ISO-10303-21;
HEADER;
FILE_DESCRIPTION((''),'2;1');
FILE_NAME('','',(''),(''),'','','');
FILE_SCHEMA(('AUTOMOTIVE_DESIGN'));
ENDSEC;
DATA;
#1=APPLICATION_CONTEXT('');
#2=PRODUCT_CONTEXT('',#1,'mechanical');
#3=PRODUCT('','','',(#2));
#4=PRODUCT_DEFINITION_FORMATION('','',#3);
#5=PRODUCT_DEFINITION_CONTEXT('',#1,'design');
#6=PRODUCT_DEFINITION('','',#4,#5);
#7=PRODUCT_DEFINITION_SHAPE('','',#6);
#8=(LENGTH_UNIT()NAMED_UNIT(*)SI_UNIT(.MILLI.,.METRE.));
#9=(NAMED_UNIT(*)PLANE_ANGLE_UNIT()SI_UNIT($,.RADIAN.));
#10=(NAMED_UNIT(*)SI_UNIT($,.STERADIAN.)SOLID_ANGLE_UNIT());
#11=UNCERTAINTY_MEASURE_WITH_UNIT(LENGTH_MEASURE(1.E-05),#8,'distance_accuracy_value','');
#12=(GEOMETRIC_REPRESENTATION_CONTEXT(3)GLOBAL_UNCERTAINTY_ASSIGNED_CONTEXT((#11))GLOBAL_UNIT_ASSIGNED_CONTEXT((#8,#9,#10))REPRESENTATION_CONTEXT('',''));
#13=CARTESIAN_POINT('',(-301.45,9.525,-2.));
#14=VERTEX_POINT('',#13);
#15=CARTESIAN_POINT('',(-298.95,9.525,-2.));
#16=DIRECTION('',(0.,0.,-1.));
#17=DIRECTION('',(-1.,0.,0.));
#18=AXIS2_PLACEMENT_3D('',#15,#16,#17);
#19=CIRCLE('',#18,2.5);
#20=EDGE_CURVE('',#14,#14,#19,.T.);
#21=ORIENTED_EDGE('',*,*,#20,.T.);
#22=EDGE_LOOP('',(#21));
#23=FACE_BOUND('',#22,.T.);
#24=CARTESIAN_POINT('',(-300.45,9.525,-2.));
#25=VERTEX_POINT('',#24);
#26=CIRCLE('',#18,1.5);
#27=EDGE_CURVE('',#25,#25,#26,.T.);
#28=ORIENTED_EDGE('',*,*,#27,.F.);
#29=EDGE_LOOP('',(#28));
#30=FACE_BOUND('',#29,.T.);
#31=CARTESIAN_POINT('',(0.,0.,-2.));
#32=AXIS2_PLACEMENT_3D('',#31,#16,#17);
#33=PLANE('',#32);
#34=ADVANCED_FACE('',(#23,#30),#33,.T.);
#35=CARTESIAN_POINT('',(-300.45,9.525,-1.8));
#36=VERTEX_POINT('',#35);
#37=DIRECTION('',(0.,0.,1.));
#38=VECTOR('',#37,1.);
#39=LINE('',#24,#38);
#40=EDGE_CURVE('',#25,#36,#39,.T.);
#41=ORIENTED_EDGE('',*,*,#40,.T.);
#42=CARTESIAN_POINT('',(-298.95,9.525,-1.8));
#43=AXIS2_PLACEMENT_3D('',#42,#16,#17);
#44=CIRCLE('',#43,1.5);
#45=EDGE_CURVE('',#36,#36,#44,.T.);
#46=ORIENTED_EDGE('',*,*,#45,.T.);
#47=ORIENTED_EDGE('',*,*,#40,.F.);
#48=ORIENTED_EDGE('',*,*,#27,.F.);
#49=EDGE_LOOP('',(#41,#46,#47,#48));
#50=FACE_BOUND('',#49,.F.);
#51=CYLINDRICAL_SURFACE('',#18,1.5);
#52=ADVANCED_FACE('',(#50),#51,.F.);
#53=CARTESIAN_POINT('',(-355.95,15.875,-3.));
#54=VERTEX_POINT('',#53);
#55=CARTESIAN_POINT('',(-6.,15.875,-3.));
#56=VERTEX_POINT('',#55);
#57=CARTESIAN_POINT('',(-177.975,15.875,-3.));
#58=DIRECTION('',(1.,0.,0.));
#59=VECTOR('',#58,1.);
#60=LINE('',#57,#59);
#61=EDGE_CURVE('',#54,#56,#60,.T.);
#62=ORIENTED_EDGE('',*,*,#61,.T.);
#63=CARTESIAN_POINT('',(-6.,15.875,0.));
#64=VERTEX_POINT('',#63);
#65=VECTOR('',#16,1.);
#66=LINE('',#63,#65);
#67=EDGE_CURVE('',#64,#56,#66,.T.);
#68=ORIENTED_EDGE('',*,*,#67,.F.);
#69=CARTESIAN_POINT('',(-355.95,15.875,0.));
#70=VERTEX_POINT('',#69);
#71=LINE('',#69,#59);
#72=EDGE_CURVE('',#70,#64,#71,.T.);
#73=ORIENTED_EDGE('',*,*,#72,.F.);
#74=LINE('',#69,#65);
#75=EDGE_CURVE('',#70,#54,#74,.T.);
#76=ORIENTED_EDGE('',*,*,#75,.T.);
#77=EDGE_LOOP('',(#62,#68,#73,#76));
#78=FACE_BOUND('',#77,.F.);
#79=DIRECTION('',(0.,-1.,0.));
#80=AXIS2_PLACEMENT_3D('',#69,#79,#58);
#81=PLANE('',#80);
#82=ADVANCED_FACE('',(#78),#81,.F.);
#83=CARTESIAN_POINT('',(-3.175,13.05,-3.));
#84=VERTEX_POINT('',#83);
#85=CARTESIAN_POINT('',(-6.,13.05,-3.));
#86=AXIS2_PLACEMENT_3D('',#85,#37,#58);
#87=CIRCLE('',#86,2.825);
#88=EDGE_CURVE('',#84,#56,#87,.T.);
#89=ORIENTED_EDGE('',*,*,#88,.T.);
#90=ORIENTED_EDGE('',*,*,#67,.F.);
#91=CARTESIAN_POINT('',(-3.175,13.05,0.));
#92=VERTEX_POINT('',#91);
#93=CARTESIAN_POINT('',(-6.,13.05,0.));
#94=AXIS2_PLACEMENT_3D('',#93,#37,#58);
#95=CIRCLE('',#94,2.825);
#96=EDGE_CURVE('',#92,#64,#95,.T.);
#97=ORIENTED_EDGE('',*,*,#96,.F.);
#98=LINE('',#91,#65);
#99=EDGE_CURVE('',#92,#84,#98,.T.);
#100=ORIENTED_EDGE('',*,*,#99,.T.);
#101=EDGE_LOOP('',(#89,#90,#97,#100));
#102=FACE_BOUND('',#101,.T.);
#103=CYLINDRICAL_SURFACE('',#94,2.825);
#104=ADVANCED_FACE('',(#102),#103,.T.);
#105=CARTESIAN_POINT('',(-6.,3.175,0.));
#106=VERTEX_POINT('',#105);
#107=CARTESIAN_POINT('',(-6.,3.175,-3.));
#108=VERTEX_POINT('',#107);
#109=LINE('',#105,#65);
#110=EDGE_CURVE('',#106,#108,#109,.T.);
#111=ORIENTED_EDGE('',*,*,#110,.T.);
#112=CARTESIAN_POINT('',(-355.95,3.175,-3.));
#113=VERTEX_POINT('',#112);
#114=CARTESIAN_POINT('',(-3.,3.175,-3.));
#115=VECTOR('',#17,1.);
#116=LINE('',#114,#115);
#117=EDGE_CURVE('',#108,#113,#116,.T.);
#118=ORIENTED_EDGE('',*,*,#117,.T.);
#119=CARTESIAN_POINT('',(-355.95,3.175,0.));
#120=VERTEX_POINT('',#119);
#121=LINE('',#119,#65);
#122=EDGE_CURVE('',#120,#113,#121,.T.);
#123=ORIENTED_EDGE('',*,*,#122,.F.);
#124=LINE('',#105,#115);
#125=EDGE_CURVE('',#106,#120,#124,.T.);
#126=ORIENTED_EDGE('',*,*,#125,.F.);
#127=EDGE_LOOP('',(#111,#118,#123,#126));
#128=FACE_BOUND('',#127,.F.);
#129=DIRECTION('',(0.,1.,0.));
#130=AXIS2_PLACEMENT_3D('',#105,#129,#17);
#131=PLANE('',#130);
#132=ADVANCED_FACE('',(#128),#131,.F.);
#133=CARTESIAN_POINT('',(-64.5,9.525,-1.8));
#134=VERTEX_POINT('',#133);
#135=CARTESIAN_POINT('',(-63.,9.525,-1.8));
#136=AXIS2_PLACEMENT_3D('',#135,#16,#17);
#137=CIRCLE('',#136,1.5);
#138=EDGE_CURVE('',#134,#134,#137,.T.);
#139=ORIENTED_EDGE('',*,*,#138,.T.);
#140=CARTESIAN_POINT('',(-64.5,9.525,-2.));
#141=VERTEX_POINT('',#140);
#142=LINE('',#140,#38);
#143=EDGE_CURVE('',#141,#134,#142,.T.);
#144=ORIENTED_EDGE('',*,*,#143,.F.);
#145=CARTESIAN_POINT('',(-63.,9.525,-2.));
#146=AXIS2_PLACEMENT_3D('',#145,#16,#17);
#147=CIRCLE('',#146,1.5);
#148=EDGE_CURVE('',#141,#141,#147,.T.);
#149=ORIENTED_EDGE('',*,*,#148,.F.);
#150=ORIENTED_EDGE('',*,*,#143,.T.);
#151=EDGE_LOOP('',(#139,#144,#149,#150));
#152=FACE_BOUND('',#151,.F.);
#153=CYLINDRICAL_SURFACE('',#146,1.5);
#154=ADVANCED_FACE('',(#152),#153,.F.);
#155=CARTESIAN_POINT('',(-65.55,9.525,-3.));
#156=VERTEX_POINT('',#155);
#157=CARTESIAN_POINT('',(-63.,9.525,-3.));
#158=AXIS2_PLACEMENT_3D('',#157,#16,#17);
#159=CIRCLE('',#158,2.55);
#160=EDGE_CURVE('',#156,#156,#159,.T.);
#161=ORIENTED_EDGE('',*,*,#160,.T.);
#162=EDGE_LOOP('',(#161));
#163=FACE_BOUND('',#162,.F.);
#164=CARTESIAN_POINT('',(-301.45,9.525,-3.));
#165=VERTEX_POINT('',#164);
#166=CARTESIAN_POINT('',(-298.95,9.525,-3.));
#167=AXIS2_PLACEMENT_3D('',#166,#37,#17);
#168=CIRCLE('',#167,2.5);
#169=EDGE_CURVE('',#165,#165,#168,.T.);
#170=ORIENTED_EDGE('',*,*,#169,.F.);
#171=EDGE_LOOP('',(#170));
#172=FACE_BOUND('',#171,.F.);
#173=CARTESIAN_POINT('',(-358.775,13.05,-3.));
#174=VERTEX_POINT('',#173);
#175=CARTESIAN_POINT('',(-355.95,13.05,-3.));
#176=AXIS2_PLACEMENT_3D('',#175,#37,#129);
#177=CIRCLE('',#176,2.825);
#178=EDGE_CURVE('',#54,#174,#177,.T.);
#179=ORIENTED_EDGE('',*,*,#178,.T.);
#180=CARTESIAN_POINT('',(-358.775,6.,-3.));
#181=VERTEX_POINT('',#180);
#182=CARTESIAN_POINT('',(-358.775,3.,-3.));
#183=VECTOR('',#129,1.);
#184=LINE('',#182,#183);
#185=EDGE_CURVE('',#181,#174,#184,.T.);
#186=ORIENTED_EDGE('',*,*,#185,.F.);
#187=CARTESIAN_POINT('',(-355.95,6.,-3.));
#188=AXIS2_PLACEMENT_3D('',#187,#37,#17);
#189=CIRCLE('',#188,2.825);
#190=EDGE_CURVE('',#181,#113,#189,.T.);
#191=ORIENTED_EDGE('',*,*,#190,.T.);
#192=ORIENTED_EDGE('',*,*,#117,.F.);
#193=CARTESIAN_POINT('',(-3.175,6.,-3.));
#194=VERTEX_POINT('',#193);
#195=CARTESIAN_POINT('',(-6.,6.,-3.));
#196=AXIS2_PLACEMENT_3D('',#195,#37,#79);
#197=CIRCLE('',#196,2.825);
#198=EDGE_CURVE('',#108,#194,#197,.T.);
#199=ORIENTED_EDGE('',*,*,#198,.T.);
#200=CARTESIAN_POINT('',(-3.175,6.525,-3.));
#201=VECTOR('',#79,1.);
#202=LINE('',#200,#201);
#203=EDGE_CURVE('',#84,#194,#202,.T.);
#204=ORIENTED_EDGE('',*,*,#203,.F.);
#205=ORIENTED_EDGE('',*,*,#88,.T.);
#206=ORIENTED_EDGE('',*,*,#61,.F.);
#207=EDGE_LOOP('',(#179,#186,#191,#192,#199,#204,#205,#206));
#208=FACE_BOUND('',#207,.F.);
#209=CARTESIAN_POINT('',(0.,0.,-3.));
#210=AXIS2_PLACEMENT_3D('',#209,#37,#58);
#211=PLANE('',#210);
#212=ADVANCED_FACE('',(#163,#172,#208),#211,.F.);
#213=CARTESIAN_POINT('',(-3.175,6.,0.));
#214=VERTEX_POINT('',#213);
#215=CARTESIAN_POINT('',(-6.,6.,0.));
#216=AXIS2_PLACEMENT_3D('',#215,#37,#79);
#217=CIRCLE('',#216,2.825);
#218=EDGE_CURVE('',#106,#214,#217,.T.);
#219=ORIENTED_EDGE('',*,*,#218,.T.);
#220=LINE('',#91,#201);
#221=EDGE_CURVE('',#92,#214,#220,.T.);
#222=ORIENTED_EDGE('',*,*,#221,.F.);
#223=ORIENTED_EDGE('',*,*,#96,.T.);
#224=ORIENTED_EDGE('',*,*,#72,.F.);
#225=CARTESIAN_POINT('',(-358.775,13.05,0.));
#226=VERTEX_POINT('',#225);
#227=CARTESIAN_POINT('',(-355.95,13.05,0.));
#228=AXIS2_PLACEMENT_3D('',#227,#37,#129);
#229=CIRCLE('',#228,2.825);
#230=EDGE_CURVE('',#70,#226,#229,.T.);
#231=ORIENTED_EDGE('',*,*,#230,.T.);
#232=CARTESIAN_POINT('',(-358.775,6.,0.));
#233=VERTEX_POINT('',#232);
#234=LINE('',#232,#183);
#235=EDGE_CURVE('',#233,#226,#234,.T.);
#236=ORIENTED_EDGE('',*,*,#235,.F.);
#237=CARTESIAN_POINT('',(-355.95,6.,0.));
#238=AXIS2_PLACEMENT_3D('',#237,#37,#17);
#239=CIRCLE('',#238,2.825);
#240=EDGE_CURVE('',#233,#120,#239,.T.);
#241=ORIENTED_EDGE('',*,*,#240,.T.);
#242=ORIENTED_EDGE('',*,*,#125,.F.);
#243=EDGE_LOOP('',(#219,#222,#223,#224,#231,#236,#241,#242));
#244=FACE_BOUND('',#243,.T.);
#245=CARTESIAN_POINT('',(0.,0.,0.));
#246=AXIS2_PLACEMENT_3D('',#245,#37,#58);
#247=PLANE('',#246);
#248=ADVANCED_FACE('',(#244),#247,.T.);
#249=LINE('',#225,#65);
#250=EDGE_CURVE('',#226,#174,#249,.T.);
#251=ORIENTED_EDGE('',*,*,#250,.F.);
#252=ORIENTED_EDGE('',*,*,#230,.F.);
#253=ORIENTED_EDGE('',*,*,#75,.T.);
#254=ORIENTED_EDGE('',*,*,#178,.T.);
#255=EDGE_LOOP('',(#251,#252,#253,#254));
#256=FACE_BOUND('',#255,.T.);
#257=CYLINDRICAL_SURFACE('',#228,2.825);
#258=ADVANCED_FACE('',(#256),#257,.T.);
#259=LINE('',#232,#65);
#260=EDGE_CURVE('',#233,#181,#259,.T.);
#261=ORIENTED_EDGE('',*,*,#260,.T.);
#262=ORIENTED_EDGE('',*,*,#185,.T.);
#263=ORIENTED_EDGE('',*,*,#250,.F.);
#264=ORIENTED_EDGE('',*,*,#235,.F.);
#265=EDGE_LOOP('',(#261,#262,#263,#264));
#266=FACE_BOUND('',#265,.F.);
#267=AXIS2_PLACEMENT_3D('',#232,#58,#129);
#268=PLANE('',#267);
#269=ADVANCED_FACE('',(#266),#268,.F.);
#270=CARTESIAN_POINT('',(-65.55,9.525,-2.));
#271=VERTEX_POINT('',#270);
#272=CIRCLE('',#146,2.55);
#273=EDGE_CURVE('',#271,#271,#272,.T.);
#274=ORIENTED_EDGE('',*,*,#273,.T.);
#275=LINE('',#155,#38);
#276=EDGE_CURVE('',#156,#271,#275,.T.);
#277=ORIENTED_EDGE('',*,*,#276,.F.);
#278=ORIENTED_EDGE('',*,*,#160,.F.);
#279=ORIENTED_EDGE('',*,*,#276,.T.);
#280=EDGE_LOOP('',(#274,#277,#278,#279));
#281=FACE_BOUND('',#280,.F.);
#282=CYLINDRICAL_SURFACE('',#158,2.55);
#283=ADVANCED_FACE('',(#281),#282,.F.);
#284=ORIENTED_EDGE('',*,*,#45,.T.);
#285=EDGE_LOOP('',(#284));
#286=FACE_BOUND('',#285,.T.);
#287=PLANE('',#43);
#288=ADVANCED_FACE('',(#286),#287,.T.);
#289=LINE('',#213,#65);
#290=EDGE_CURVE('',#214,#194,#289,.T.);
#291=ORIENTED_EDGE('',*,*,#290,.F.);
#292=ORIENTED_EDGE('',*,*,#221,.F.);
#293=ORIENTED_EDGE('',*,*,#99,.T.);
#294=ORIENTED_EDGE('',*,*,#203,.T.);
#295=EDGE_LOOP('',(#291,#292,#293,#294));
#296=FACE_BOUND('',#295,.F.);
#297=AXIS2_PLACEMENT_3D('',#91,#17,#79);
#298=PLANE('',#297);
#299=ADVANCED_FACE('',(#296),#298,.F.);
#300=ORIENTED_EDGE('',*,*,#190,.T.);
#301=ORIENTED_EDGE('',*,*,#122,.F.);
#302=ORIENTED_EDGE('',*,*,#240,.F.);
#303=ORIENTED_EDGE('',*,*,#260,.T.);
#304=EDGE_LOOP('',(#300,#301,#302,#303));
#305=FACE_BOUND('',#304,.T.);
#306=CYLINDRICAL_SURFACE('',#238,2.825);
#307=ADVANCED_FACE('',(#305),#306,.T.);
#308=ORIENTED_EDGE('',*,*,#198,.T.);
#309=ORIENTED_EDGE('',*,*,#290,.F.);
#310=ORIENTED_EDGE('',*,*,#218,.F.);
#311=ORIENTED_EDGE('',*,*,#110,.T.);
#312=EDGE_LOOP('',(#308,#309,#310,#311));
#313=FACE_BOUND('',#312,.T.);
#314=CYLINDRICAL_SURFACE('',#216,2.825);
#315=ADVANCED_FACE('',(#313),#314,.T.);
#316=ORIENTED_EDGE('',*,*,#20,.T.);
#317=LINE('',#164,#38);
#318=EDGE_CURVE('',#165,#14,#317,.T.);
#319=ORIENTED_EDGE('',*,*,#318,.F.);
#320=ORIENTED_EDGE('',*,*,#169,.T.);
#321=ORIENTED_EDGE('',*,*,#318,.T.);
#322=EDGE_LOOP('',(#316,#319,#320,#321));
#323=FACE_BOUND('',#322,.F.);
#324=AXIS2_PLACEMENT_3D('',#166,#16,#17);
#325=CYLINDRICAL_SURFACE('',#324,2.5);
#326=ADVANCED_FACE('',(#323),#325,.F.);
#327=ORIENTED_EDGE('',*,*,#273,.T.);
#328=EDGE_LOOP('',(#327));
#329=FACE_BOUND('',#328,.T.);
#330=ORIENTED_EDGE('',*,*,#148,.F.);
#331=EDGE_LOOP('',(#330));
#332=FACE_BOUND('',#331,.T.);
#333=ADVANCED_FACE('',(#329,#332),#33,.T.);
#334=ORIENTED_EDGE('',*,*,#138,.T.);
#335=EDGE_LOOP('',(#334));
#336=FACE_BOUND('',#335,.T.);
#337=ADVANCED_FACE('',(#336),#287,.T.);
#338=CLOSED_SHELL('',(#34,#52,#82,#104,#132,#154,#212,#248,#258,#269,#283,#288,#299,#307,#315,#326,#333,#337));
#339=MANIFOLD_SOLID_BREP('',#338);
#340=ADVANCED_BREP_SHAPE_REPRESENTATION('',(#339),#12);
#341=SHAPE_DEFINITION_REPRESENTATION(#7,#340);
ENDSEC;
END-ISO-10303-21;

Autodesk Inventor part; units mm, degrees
ref_plane "YZ Plane" through (0, 0, 0) normal (1, 0, 0) x (0, 1, 0)
ref_plane "XZ Plane" through (0, 0, 0) normal (0, 1, 0) x (-1, 0, 0)
ref_plane "XY Plane" through (0, 0, 0) normal (0, 0, 1) x (1, 0, 0)
sketch "Sketch1" plane through (0, 0, 0) normal (0, 0, 1) x (1, 0, 0)
  line L0 (-381.35, 16.05) -> (-6, 16.05)
  line L1 (-3, 13.05) -> (-3, 6)
  line L2 (-6, 3) -> (-381.35, 3)
  line L3 (-384.35, 6) -> (-384.35, 13.05)
  arc A0 (-3, 13.05) -> (-6, 16.05) centre (-6, 13.05) ccw
  arc A1 (-6, 3) -> (-3, 6) centre (-6, 6) ccw
  arc A2 (-381.35, 16.05) -> (-384.35, 13.05) centre (-381.35, 13.05) ccw
  arc A3 (-384.35, 6) -> (-381.35, 3) centre (-381.35, 6) ccw
  line L4 (-41.8897, 11.0236) -> (-317.4797, 11.0236)
  line L5 (-317.4797, 7.9756) -> (-41.8897, 7.9756)
  line L6 (-368.2797, 11.0236) -> (-368.2797, 7.9756)
  arc A4 (-368.2797, 11.0236) -> (-368.2797, 7.9756) centre (-368.2797, 9.4996) ccw
  line L7 (-86.8832, 11.0236) -> (-99.5832, 11.0236)
  line L8 (-41.8897, 11.0236) -> (-41.8897, 7.9756)
  arc A5 (-41.8897, 7.9756) -> (-41.8897, 11.0236) centre (-41.8897, 9.4996) ccw
  line L9 (-36.3424, 11.0744) -> (-6.7422, 11.0744) construction
  line L10 (-6.7422, 11.0744) -> (-6.7422, 8.0311) construction
  line L11 (-6.7422, 8.0311) -> (-36.3424, 8.0311) construction
  line L12 (-36.3424, 8.0311) -> (-36.3424, 11.0744) construction
  line L13 (-317.4797, 11.0236) -> (-368.2797, 11.0236)
  line L14 (-317.4797, 7.9756) -> (-368.2797, 7.9756)
  line L15 (-193.675, 9.525) -> (-193.675, 10.1012)
  line L16 (-193.675, 9.525) -> (-193.6526, 8.8818)
  line L17 (-35.1521, 9.2905) -> (-35.4935, 8.9245)
  line L18 (-35.4935, 8.9245) -> (-35.4935, 7.9833)
  line L19 (-35.4935, 7.9833) -> (-36.0379, 7.9833)
  line L20 (-36.0379, 7.9833) -> (-36.0379, 11.0313)
  line L21 (-36.0379, 11.0313) -> (-35.4935, 11.0313)
  line L22 (-35.4935, 11.0313) -> (-35.4935, 9.6073)
  line L23 (-35.4935, 9.6073) -> (-35.2013, 9.9733)
  line L24 (-35.2013, 9.9733) -> (-34.3278, 11.0313)
  line L25 (-34.3278, 11.0313) -> (-33.6665, 11.0313)
  line L26 (-33.6665, 11.0313) -> (-34.7922, 9.6842)
  line L27 (-34.7922, 9.6842) -> (-33.6081, 7.9833)
  line L28 (-33.6081, 7.9833) -> (-34.254, 7.9833)
  line L29 (-34.254, 7.9833) -> (-35.1521, 9.2905)
  spline S0 degree 2 poles (-31.6581, 9.5704) (-31.4028, 9.5027) (-31.1445, 9.1244) (-31.1445, 8.8753) knots 0 0 0 1 2 2 2
  spline S1 degree 2 poles (-31.1445, 8.8753) (-31.1445, 8.4416) (-31.7012, 7.9833) (-32.2056, 7.9833) knots 0 0 0 1 2 2 2
  line L30 (-32.2056, 7.9833) -> (-33.1252, 7.9833)
  line L31 (-33.1252, 7.9833) -> (-33.3313, 7.9833)
  line L32 (-33.3313, 7.9833) -> (-33.3313, 11.0313)
  line L33 (-33.3313, 11.0313) -> (-32.2825, 11.0313)
  spline S2 degree 2 poles (-32.2825, 11.0313) (-31.7688, 11.0313) (-31.2152, 10.6223) (-31.2152, 10.2071) knots 0 0 0 1 2 2 2
  spline S3 degree 2 poles (-31.2152, 10.2071) (-31.2152, 9.9918) (-31.4428, 9.6596) (-31.6581, 9.5704) knots 0 0 0 1 2 2 2
  spline S4 degree 2 poles (-32.2056, 8.4201) (-31.9534, 8.4201) (-31.6858, 8.6692) (-31.6858, 8.8753) knots 0 0 0 1 2 2 2
  spline S5 degree 2 poles (-31.6858, 8.8753) (-31.6858, 9.352) (-32.184, 9.352) knots 0 0 0 1 1 1
  line L34 (-32.184, 9.352) -> (-32.7869, 9.352)
  line L35 (-32.7869, 9.352) -> (-32.7869, 8.4201)
  line L36 (-32.7869, 8.4201) -> (-32.2056, 8.4201)
  line L37 (-32.7869, 10.5946) -> (-32.7869, 9.7488)
  line L38 (-32.7869, 9.7488) -> (-32.2794, 9.7488)
  spline S6 degree 2 poles (-32.2794, 9.7488) (-32.0303, 9.7488) (-31.7565, 9.9733) (-31.7565, 10.1732) knots 0 0 0 1 2 2 2
  spline S7 degree 2 poles (-31.7565, 10.1732) (-31.7565, 10.3947) (-32.0118, 10.5946) (-32.2825, 10.5946) knots 0 0 0 1 2 2 2
  line L39 (-32.2825, 10.5946) -> (-32.7869, 10.5946)
  spline S8 degree 2 poles (-29.7143, 11.0313) (-29.3083, 11.0313) (-28.6839, 10.6715) (-28.3364, 10.0133) (-28.3364, 9.5796) knots 0 0 0 1 2 3 3 3
  line L40 (-28.3364, 9.5796) -> (-28.3364, 9.432)
  spline S9 degree 2 poles (-28.3364, 9.432) (-28.3364, 8.9952) (-28.6839, 8.3401) (-29.3144, 7.9833) (-29.7327, 7.9833) knots 0 0 0 1 2 3 3 3
  line L41 (-29.7327, 7.9833) -> (-30.3786, 7.9833)
  line L42 (-30.3786, 7.9833) -> (-30.6185, 7.9833)
  line L43 (-30.6185, 7.9833) -> (-30.6185, 11.0313)
  line L44 (-30.6185, 11.0313) -> (-30.0741, 11.0313)
  line L45 (-30.0741, 11.0313) -> (-29.7143, 11.0313)
  spline S10 degree 2 poles (-28.8808, 9.5858) (-28.8808, 10.0748) (-29.3083, 10.5946) (-29.7143, 10.5946) knots 0 0 0 1 2 2 2
  line L46 (-29.7143, 10.5946) -> (-30.0741, 10.5946)
  line L47 (-30.0741, 10.5946) -> (-30.0741, 8.4201)
  line L48 (-30.0741, 8.4201) -> (-29.7327, 8.4201)
  spline S11 degree 2 poles (-29.7327, 8.4201) (-29.3144, 8.4201) (-28.8808, 8.9491) (-28.8808, 9.432) knots 0 0 0 1 2 2 2
  line L49 (-28.8808, 9.432) -> (-28.8808, 9.5858)
  line L50 (-26.8293, 7.9833) -> (-26.8293, 8.3432)
  line L51 (-26.8293, 8.3432) -> (-25.8389, 9.4197)
  spline S12 degree 2 poles (-25.8389, 9.4197) (-25.6759, 9.6011) (-25.4914, 9.8626) (-25.4145, 10.0717) (-25.4145, 10.1763) knots 0 0 0 1 2 3 3 3
  spline S13 degree 2 poles (-25.4145, 10.1763) (-25.4145, 10.3916) (-25.6513, 10.6561) (-25.8604, 10.6561) knots 0 0 0 1 2 2 2
  spline S14 degree 2 poles (-25.8604, 10.6561) (-26.1065, 10.6561) (-26.3679, 10.3516) (-26.3679, 10.0994) knots 0 0 0 1 2 2 2
  line L52 (-26.3679, 10.0994) -> (-26.8908, 10.0994)
  spline S15 degree 2 poles (-26.8908, 10.0994) (-26.8908, 10.3701) (-26.6417, 10.813) (-26.1742, 11.0744) (-25.8543, 11.0744) knots 0 0 0 1 2 3 3 3
  spline S16 degree 2 poles (-25.8543, 11.0744) (-25.5498, 11.0744) (-25.1192, 10.8683) (-24.8916, 10.49) (-24.8916, 10.2317) knots 0 0 0 1 2 3 3 3
  spline S17 degree 2 poles (-24.8916, 10.2317) (-24.8916, 9.9641) (-25.2115, 9.4289) (-25.516, 9.109) knots 0 0 0 1 2 2 2
  line L53 (-25.516, 9.109) -> (-26.1772, 8.4016)
  line L54 (-26.1772, 8.4016) -> (-24.7747, 8.4016)
  line L55 (-24.7747, 8.4016) -> (-24.7747, 7.9833)
  line L56 (-24.7747, 7.9833) -> (-26.8293, 7.9833)
  spline S18 degree 2 poles (-23.2184, 10.0071) (-22.9324, 10.0071) (-22.5387, 9.7242) (-22.348, 9.2597) (-22.348, 8.9829) knots 0 0 0 1 2 3 3 3
  spline S19 degree 2 poles (-22.348, 8.9829) (-22.348, 8.6877) (-22.5848, 8.214) (-23.037, 7.9403) (-23.3415, 7.9403) knots 0 0 0 1 2 3 3 3
  spline S20 degree 2 poles (-23.3415, 7.9403) (-23.6613, 7.9403) (-24.1288, 8.2663) (-24.3749, 8.8138) (-24.3749, 9.1398) knots 0 0 0 1 2 3 3 3
  line L57 (-24.3749, 9.1398) -> (-24.3749, 9.3428)
  spline S21 degree 2 poles (-24.3749, 9.3428) (-24.3749, 9.8226) (-24.0612, 10.5915) (-23.3814, 11.0498) (-22.8617, 11.0498) knots 0 0 0 1 2 3 3 3
  line L58 (-22.8617, 11.0498) -> (-22.7971, 11.0498)
  line L59 (-22.7971, 11.0498) -> (-22.7971, 10.6192)
  line L60 (-22.7971, 10.6192) -> (-22.834, 10.6192)
  spline S22 degree 2 poles (-22.834, 10.6192) (-23.1477, 10.6192) (-23.5783, 10.3916) (-23.812, 10.0071) (-23.8397, 9.7519) knots 0 0 0 1 2 3 3 3
  spline S23 degree 2 poles (-23.8397, 9.7519) (-23.7259, 9.8749) (-23.4061, 10.0071) (-23.2184, 10.0071) knots 0 0 0 1 2 2 2
  spline S24 degree 2 poles (-23.3476, 8.3616) (-23.2, 8.3616) (-22.9816, 8.5185) (-22.8647, 8.7922) (-22.8647, 8.9706) knots 0 0 0 1 2 3 3 3
  spline S25 degree 2 poles (-22.8647, 8.9706) (-22.8647, 9.1429) (-22.9785, 9.4228) (-23.1969, 9.5858) (-23.3507, 9.5858) knots 0 0 0 1 2 3 3 3
  spline S26 degree 2 poles (-23.3507, 9.5858) (-23.5199, 9.5858) (-23.7905, 9.3951) (-23.852, 9.2505) knots 0 0 0 1 2 2 2
  line L61 (-23.852, 9.2505) -> (-23.852, 9.0906)
  spline S27 degree 2 poles (-23.852, 9.0906) (-23.852, 8.8599) (-23.7167, 8.5308) (-23.4891, 8.3616) (-23.3476, 8.3616) knots 0 0 0 1 2 3 3 3
  spline S28 degree 2 poles (-19.9521, 9.2659) (-19.9521, 7.9403) (-20.9486, 7.9403) knots 0 0 0 1 1 1
  spline S29 degree 2 poles (-20.9486, 7.9403) (-21.4253, 7.9403) (-21.9543, 8.5739) (-21.9543, 9.2659) knots 0 0 0 1 2 2 2
  line L62 (-21.9543, 9.2659) -> (-21.9543, 9.7642)
  spline S30 degree 2 poles (-21.9543, 9.7642) (-21.9543, 10.4531) (-21.4315, 11.0744) (-20.9547, 11.0744) knots 0 0 0 1 2 2 2
  spline S31 degree 2 poles (-20.9547, 11.0744) (-20.478, 11.0744) (-19.9521, 10.4531) (-19.9521, 9.7642) knots 0 0 0 1 2 2 2
  line L63 (-19.9521, 9.7642) -> (-19.9521, 9.2659)
  spline S32 degree 2 poles (-20.4719, 9.8411) (-20.4719, 10.2809) (-20.7118, 10.6561) (-20.9547, 10.6561) knots 0 0 0 1 2 2 2
  spline S33 degree 2 poles (-20.9547, 10.6561) (-21.1916, 10.6561) (-21.4345, 10.2809) (-21.4345, 9.8411) knots 0 0 0 1 2 2 2
  line L64 (-21.4345, 9.8411) -> (-21.4345, 9.1921)
  spline S34 degree 2 poles (-21.4345, 9.1921) (-21.4345, 8.7523) (-21.1885, 8.3616) (-20.9486, 8.3616) knots 0 0 0 1 2 2 2
  spline S35 degree 2 poles (-20.9486, 8.3616) (-20.7087, 8.3616) (-20.4719, 8.7461) (-20.4719, 9.1921) knots 0 0 0 1 2 2 2
  line L65 (-20.4719, 9.1921) -> (-20.4719, 9.8411)
  spline S36 degree 2 poles (-17.51, 9.2659) (-17.51, 7.9403) (-18.5065, 7.9403) knots 0 0 0 1 1 1
  spline S37 degree 2 poles (-18.5065, 7.9403) (-18.9832, 7.9403) (-19.5122, 8.5739) (-19.5122, 9.2659) knots 0 0 0 1 2 2 2
  line L66 (-19.5122, 9.2659) -> (-19.5122, 9.7642)
  spline S38 degree 2 poles (-19.5122, 9.7642) (-19.5122, 10.4531) (-18.9894, 11.0744) (-18.5126, 11.0744) knots 0 0 0 1 2 2 2
  spline S39 degree 2 poles (-18.5126, 11.0744) (-18.0359, 11.0744) (-17.51, 10.4531) (-17.51, 9.7642) knots 0 0 0 1 2 2 2
  line L67 (-17.51, 9.7642) -> (-17.51, 9.2659)
  spline S40 degree 2 poles (-18.0298, 9.8411) (-18.0298, 10.2809) (-18.2697, 10.6561) (-18.5126, 10.6561) knots 0 0 0 1 2 2 2
  spline S41 degree 2 poles (-18.5126, 10.6561) (-18.7495, 10.6561) (-18.9925, 10.2809) (-18.9925, 9.8411) knots 0 0 0 1 2 2 2
  line L68 (-18.9925, 9.8411) -> (-18.9925, 9.1921)
  spline S42 degree 2 poles (-18.9925, 9.1921) (-18.9925, 8.7523) (-18.7464, 8.3616) (-18.5065, 8.3616) knots 0 0 0 1 2 2 2
  spline S43 degree 2 poles (-18.5065, 8.3616) (-18.2666, 8.3616) (-18.0298, 8.7461) (-18.0298, 9.1921) knots 0 0 0 1 2 2 2
  line L69 (-18.0298, 9.1921) -> (-18.0298, 9.8411)
  point P0 (0, 0)
  point P1 (0, 0)
  point P2 (0, 0)
  point P3 (-31.75, 11.049)
  point P4 (-31.75, 8.001)
  point P5 (19.05, 8.001)
  point P6 (19.05, 11.049)
  dimension "d0" = 3
extrude "Extrusion1" add sketch "Sketch1" against normal blind 3 contours L0 A0 L1 A1 L2 A3 L3 A2 | L8 L5 L14 L6 L13 L4 | A5 L8 | A4 L6 | L17 L18 L19 L20 L21 L22 L23 L24 L25 L26 L27 L28 L29 | S0 S1 L30 L31 L32 L33 S2 S3 | L36 L35 L34 S5 S4 | L39 S7 S6 L38 L37 | S8 L40 S9 L41 L42 L43 L44 L45 | L49 S11 L48 L47 L46 S10 | L50 L51 S12 S13 S14 L52 S15 S16 S17 L53 L54 L55 L56 | S18 S19 S20 L57 S21 L58 L59 L60 S22 S23 | S27 L61 S26 S25 S24 | S28 S29 L62 S30 S31 L63 | L65 S35 S34 L64 S33 S32 | S36 S37 L66 S38 S39 L67 | L69 S43 S42 L68 S41 S40
extrude "Extrusion2" cut sketch "Sketch1" against normal blind 0.1 contours L8 L5 L14 L6 L13 L4 | A5 L8 | A4 L6 | L17 L18 L19 L20 L21 L22 L23 L24 L25 L26 L27 L28 L29 | S0 S1 L30 L31 L32 L33 S2 S3 | S8 L40 S9 L41 L42 L43 L44 L45 | L50 L51 S12 S13 S14 L52 S15 S16 S17 L53 L54 L55 L56 | S18 S19 S20 L57 S21 L58 L59 L60 S22 S23 | S28 S29 L62 S30 S31 L63 | S36 S37 L66 S38 S39 L67
sketch "Sketch2" plane through (0, 0, 0) normal (0, 0, 1) x (1, 0, 0)
  line L0 (-6, 16.05) -> (-381.35, 16.05) projected
  line L1 (-3, 3) -> (-355.95, 3)
  line L2 (-358.95, 6) -> (-358.95, 13.05)
  line L3 (-355.95, 16.05) -> (-3, 16.05)
  line L4 (-3, 16.05) -> (-3, 3)
  arc A0 (-355.95, 16.05) -> (-358.95, 13.05) centre (-355.95, 13.05) ccw
  arc A1 (-358.95, 6) -> (-355.95, 3) centre (-355.95, 6) ccw
  line L5 (-355.95, 16.05) -> (-339.88, 16.05)
  line L6 (-339.88, 7.9756) -> (-355.95, 7.9756)
  arc A2 (-339.88, 11.0236) -> (-339.88, 7.9756) centre (-339.88, 9.4996) ccw
  line L7 (-358.95, 11.0236) -> (-339.88, 11.0236)
  line L8 (-339.88, 11.0236) -> (-339.88, 7.9756)
  line L9 (-339.88, 7.9756) -> (-358.95, 7.9756)
  line L10 (-358.95, 7.9756) -> (-358.95, 11.0236)
  line L11 (-355.95, 16.05) -> (-390.1451, 16.05)
  line L12 (-390.1451, 16.05) -> (-390.1451, 0)
  line L13 (-390.1451, 0) -> (-355.95, 0)
  line L14 (-355.95, 0) -> (-355.95, 3)
  point P0 (0, 0)
  point P1 (-358.95, 16.05)
extrude "Extrusion3" cut sketch "Sketch2" against normal blind 10 contours A0 L2 A1 L14 L13 L12 L11 L0
extrude "Extrusion4" add sketch "Sketch2" against normal up to surface (0.1 mm away) contours L7 A2 L6 L9 L2
sketch "Sketch3" plane through (0, 0, -3) normal (0, 0, -1) x (-1, 0, 0)
  line L0 (3, 16.05) -> (358.95, 16.05)
  line L1 (358.95, 16.05) -> (358.95, 3)
  line L2 (358.95, 3) -> (3, 3)
  line L3 (3, 3) -> (3, 16.05)
  line L4 (355.95, 3) -> (6, 3) projected
  line L5 (3, 16.05) -> (33, 16.05)
  line L6 (33, 16.05) -> (33, 3)
  line L7 (33, 3) -> (3, 3)
  line L8 (3, 3) -> (3, 16.05)
  line L9 (358.95, 16.05) -> (328.95, 16.05)
  line L10 (328.95, 16.05) -> (328.95, 3)
  line L11 (328.95, 3) -> (358.95, 3)
  line L12 (358.95, 3) -> (358.95, 16.05)
  line L13 (33, 16.05) -> (33, 9.525)
  line L14 (33, 9.525) -> (328.95, 9.525)
  line L15 (33, 9.525) -> (63, 9.525)
  line L16 (328.95, 9.525) -> (298.95, 9.525)
  circle A0 centre (63, 9.525) radius 2.5
  circle A1 centre (298.95, 9.525) radius 2.5
  line L17 (65.5, 9.525) -> (70.5, 9.525)
  point P0 (0, 0)
  dimension "d20" = 30
  dimension "d21" = 30
  dimension "d22" = 6.525
  dimension "d23" = 30
  dimension "d24" = 30
  dimension "d26" = 5
  dimension "d27" = 5
extrude "Extrusion5" cut sketch "Sketch3" against normal blind 1 contours A0 L14 | L14 A0 | A1 L14 | L14 A1
sketch "Sketch4" plane through (-298.95, 9.525, -2) normal (0, 0, -1) x (-1, 0, 0)
  circle A0 centre (-235.95, 0) radius 2.5 projected
  circle A1 centre (-235.95, 0) radius 2.5
  circle A2 centre (-235.95, 0) radius 1.5
  circle A3 centre (0, 0) radius 2.5
  circle A4 centre (0, 0) radius 1.5
  point P0 (-298.95, -9.525)
  dimension "d30" = 1
  dimension "d31" = 1
extrude "Extrusion6" cut sketch "Sketch4" against normal blind 0.2 contours A2 | A4
sketch "Sketch5" plane through (0, 0, 0) normal (0, 0, 1) x (1, 0, 0)
  line L0 (-358.95, 13.05) -> (-358.95, 6) projected
  arc A0 (-358.95, 6) -> (-355.95, 3) centre (-355.95, 6) ccw projected
  line L1 (-355.95, 3) -> (-6, 3) projected
  arc A1 (-6, 3) -> (-3, 6) centre (-6, 6) ccw projected
  line L2 (-3, 6) -> (-3, 13.05) projected
  arc A2 (-3, 13.05) -> (-6, 16.05) centre (-6, 13.05) ccw projected
  line L3 (-6, 16.05) -> (-355.95, 16.05) projected
  arc A3 (-355.95, 16.05) -> (-358.95, 13.05) centre (-355.95, 13.05) ccw projected
  line L4 (-355.95, 16.075) -> (-6, 16.075)
  arc A4 (-2.975, 13.05) -> (-6, 16.075) centre (-6, 13.05) ccw
  line L5 (-2.975, 13.05) -> (-2.975, 6)
  arc A5 (-6, 2.975) -> (-2.975, 6) centre (-6, 6) ccw
  line L6 (-6, 2.975) -> (-355.95, 2.975)
  arc A6 (-358.975, 6) -> (-355.95, 2.975) centre (-355.95, 6) ccw
  line L7 (-358.975, 6) -> (-358.975, 13.05)
  arc A7 (-355.95, 16.075) -> (-358.975, 13.05) centre (-355.95, 13.05) ccw
  point P0 (0, 0)
  dimension "d34" = 0.025
extrude "Extrusion7" add sketch "Sketch5" against normal up to surface (3 mm away)
sketch "Sketch6" plane through (0, 0, 0) normal (0, 0, 1) x (1, 0, 0)
  arc A0 (-6, 2.975) -> (-2.975, 6) centre (-6, 6) ccw projected
  line L0 (-2.975, 6) -> (-2.975, 13.05) projected
  arc A1 (-2.975, 13.05) -> (-6, 16.075) centre (-6, 13.05) ccw projected
  line L1 (-6, 16.075) -> (-355.95, 16.075) projected
  arc A2 (-355.95, 16.075) -> (-358.975, 13.05) centre (-355.95, 13.05) ccw projected
  line L2 (-358.975, 13.05) -> (-358.975, 6) projected
  arc A3 (-358.975, 6) -> (-355.95, 2.975) centre (-355.95, 6) ccw projected
  line L3 (-355.95, 2.975) -> (-6, 2.975) projected
  line L4 (-355.95, 15.875) -> (-6, 15.875)
  arc A4 (-3.175, 13.05) -> (-6, 15.875) centre (-6, 13.05) ccw
  line L5 (-3.175, 13.05) -> (-3.175, 6)
  arc A5 (-6, 3.175) -> (-3.175, 6) centre (-6, 6) ccw
  line L6 (-6, 3.175) -> (-355.95, 3.175)
  arc A6 (-358.775, 6) -> (-355.95, 3.175) centre (-355.95, 6) ccw
  line L7 (-358.775, 6) -> (-358.775, 13.05)
  arc A7 (-355.95, 15.875) -> (-358.775, 13.05) centre (-355.95, 13.05) ccw
  point P0 (0, 0)
  dimension "d37" = 0.2
extrude "Extrusion8" cut sketch "Sketch6" against normal blind 10
sketch "Sketch7" plane through (0, 0, 0) normal (0, 0, 1) x (1, 0, 0)
  line L0 (-18.0298, 9.1921) -> (-18.0298, 9.8411) projected
  line L1 (-18.9925, 9.8411) -> (-18.9925, 9.1921) projected
  line L2 (-17.51, 9.7642) -> (-17.51, 9.2659) projected
  line L3 (-19.5122, 9.2659) -> (-19.5122, 9.7642) projected
  line L4 (-20.4719, 9.1921) -> (-20.4719, 9.8411) projected
  line L5 (-21.4345, 9.8411) -> (-21.4345, 9.1921) projected
  line L6 (-19.9521, 9.7642) -> (-19.9521, 9.2659) projected
  line L7 (-21.9543, 9.2659) -> (-21.9543, 9.7642) projected
  line L8 (-23.852, 9.2505) -> (-23.852, 9.0906) projected
  line L9 (-22.7971, 10.6192) -> (-22.834, 10.6192) projected
  line L10 (-22.7971, 11.0498) -> (-22.7971, 10.6192) projected
  line L11 (-22.8617, 11.0498) -> (-22.7971, 11.0498) projected
  line L12 (-24.3749, 9.1398) -> (-24.3749, 9.3428) projected
  line L13 (-26.8293, 7.9833) -> (-26.8293, 8.3432) projected
  line L14 (-24.7747, 7.9833) -> (-26.8293, 7.9833) projected
  line L15 (-24.7747, 8.4016) -> (-24.7747, 7.9833) projected
  line L16 (-26.1772, 8.4016) -> (-24.7747, 8.4016) projected
  line L17 (-25.516, 9.109) -> (-26.1772, 8.4016) projected
  line L18 (-26.3679, 10.0994) -> (-26.8908, 10.0994) projected
  line L19 (-26.8293, 8.3432) -> (-25.8389, 9.4197) projected
  line L20 (-29.7143, 10.5946) -> (-30.0741, 10.5946) projected
  line L21 (-28.8808, 9.432) -> (-28.8808, 9.5858) projected
  line L22 (-30.0741, 8.4201) -> (-29.7327, 8.4201) projected
  line L23 (-30.0741, 10.5946) -> (-30.0741, 8.4201) projected
  line L24 (-30.6185, 11.0313) -> (-29.7143, 11.0313) projected
  line L25 (-30.6185, 7.9833) -> (-30.6185, 11.0313) projected
  line L26 (-29.7327, 7.9833) -> (-30.6185, 7.9833) projected
  line L27 (-28.3364, 9.5796) -> (-28.3364, 9.432) projected
  line L28 (-32.7869, 9.7488) -> (-32.2794, 9.7488) projected
  line L29 (-32.7869, 10.5946) -> (-32.7869, 9.7488) projected
  line L30 (-32.2825, 10.5946) -> (-32.7869, 10.5946) projected
  line L31 (-32.7869, 8.4201) -> (-32.2056, 8.4201) projected
  line L32 (-32.7869, 9.352) -> (-32.7869, 8.4201) projected
  line L33 (-32.184, 9.352) -> (-32.7869, 9.352) projected
  line L34 (-33.3313, 11.0313) -> (-32.2825, 11.0313) projected
  line L35 (-33.3313, 7.9833) -> (-33.3313, 11.0313) projected
  line L36 (-32.2056, 7.9833) -> (-33.3313, 7.9833) projected
  line L37 (-35.1521, 9.2905) -> (-35.4935, 8.9245) projected
  line L38 (-34.254, 7.9833) -> (-35.1521, 9.2905) projected
  line L39 (-33.6081, 7.9833) -> (-34.254, 7.9833) projected
  line L40 (-34.7922, 9.6842) -> (-33.6081, 7.9833) projected
  line L41 (-33.6665, 11.0313) -> (-34.7922, 9.6842) projected
  line L42 (-34.3278, 11.0313) -> (-33.6665, 11.0313) projected
  line L43 (-35.2013, 9.9733) -> (-34.3278, 11.0313) projected
  line L44 (-35.4935, 9.6073) -> (-35.2013, 9.9733) projected
  line L45 (-35.4935, 11.0313) -> (-35.4935, 9.6073) projected
  line L46 (-36.0379, 11.0313) -> (-35.4935, 11.0313) projected
  line L47 (-36.0379, 7.9833) -> (-36.0379, 11.0313) projected
  line L48 (-35.4935, 7.9833) -> (-36.0379, 7.9833) projected
  line L49 (-35.4935, 8.9245) -> (-35.4935, 7.9833) projected
  arc A0 (-339.88, 11.0236) -> (-339.88, 7.9756) centre (-339.88, 9.4996) ccw projected
  line L50 (-41.8897, 7.9756) -> (-339.88, 7.9756) projected
  arc A1 (-41.8897, 7.9756) -> (-41.8897, 11.0236) centre (-41.8897, 9.4996) ccw projected
  line L51 (-339.88, 11.0236) -> (-41.8897, 11.0236) projected
  arc A2 (-358.775, 6) -> (-355.95, 3.175) centre (-355.95, 6) ccw projected
  line L52 (-355.95, 3.175) -> (-6, 3.175) projected
  arc A3 (-6, 3.175) -> (-3.175, 6) centre (-6, 6) ccw projected
  line L53 (-3.175, 6) -> (-3.175, 13.05) projected
  arc A4 (-3.175, 13.05) -> (-6, 15.875) centre (-6, 13.05) ccw projected
  line L54 (-6, 15.875) -> (-355.95, 15.875) projected
  arc A5 (-355.95, 15.875) -> (-358.775, 13.05) centre (-355.95, 13.05) ccw projected
  line L55 (-358.775, 13.05) -> (-358.775, 6) projected
  line L56 (-24.7747, 7.9833) -> (-26.8293, 7.9833) projected
  line L57 (-26.8293, 7.9833) -> (-26.8293, 8.3432) projected
  line L58 (-26.8293, 8.3432) -> (-25.8389, 9.4197) projected
  line L59 (-26.3679, 10.0994) -> (-26.8908, 10.0994) projected
  line L60 (-25.516, 9.109) -> (-26.1772, 8.4016) projected
  line L61 (-26.1772, 8.4016) -> (-24.7747, 8.4016) projected
  line L62 (-24.7747, 8.4016) -> (-24.7747, 7.9833) projected
  line L63 (-30.6185, 11.0313) -> (-29.7143, 11.0313) projected
  line L64 (-28.3364, 9.5796) -> (-28.3364, 9.432) projected
  line L65 (-29.7327, 7.9833) -> (-30.6185, 7.9833) projected
  line L66 (-30.6185, 7.9833) -> (-30.6185, 11.0313) projected
  line L67 (-34.254, 7.9833) -> (-35.1521, 9.2905) projected
  line L68 (-35.1521, 9.2905) -> (-35.4935, 8.9245) projected
  line L69 (-35.4935, 8.9245) -> (-35.4935, 7.9833) projected
  line L70 (-35.4935, 7.9833) -> (-36.0379, 7.9833) projected
  line L71 (-36.0379, 7.9833) -> (-36.0379, 11.0313) projected
  line L72 (-36.0379, 11.0313) -> (-35.4935, 11.0313) projected
  line L73 (-35.4935, 11.0313) -> (-35.4935, 9.6073) projected
  line L74 (-35.4935, 9.6073) -> (-35.2013, 9.9733) projected
  line L75 (-35.2013, 9.9733) -> (-34.3278, 11.0313) projected
  line L76 (-34.3278, 11.0313) -> (-33.6665, 11.0313) projected
  line L77 (-33.6665, 11.0313) -> (-34.7922, 9.6842) projected
  line L78 (-34.7922, 9.6842) -> (-33.6081, 7.9833) projected
  line L79 (-33.6081, 7.9833) -> (-34.254, 7.9833) projected
  arc A6 (-339.88, 11.0236) -> (-339.88, 7.9756) centre (-339.88, 9.4996) ccw projected
  line L80 (-339.88, 11.0236) -> (-41.8897, 11.0236) projected
  arc A7 (-41.8897, 7.9756) -> (-41.8897, 11.0236) centre (-41.8897, 9.4996) ccw projected
  line L81 (-41.8897, 7.9756) -> (-339.88, 7.9756) projected
  line L82 (-32.2056, 7.9833) -> (-33.3313, 7.9833) projected
  line L83 (-33.3313, 7.9833) -> (-33.3313, 11.0313) projected
  line L84 (-33.3313, 11.0313) -> (-32.2825, 11.0313) projected
  line L85 (-24.3749, 9.1398) -> (-24.3749, 9.3428) projected
  line L86 (-22.8617, 11.0498) -> (-22.7971, 11.0498) projected
  line L87 (-22.7971, 11.0498) -> (-22.7971, 10.6192) projected
  line L88 (-22.7971, 10.6192) -> (-22.834, 10.6192) projected
  line L89 (-19.9521, 9.7642) -> (-19.9521, 9.2659) projected
  line L90 (-21.9543, 9.2659) -> (-21.9543, 9.7642) projected
  line L91 (-17.51, 9.7642) -> (-17.51, 9.2659) projected
  line L92 (-19.5122, 9.2659) -> (-19.5122, 9.7642) projected
  point P0 (0, 0)
  point P1 (-18.5126, 10.6561)
  point P2 (-18.5065, 8.3616)
  point P3 (-18.5065, 7.9403)
  point P4 (-18.5126, 11.0744)
  point P5 (-20.9547, 10.6561)
  point P6 (-20.9486, 8.3616)
  point P7 (-20.9486, 7.9403)
  point P8 (-20.9547, 11.0744)
  point P9 (-23.3507, 9.5858)
  point P10 (-22.8647, 8.9706)
  point P11 (-23.3476, 8.3616)
  point P12 (-22.348, 8.9829)
  point P13 (-23.2184, 10.0071)
  point P14 (-23.8397, 9.7519)
  point P15 (-23.3415, 7.9403)
  point P16 (-24.8916, 10.2317)
  point P17 (-25.8543, 11.0744)
  point P18 (-25.8604, 10.6561)
  point P19 (-25.4145, 10.1763)
  point P20 (-31.7565, 10.1732)
  point P21 (-31.6858, 8.8753)
  point P22 (-31.1445, 8.8753)
  point P23 (-31.6581, 9.5704)
  point P24 (-31.2152, 10.2071)
  point P25 (-25.4145, 10.1763)
  point P26 (-25.8604, 10.6561)
  point P27 (-25.8543, 11.0744)
  point P28 (-24.8916, 10.2317)
  point P29 (-31.2152, 10.2071)
  point P30 (-31.6581, 9.5704)
  point P31 (-31.1445, 8.8753)
  point P32 (-23.8397, 9.7519)
  point P33 (-23.2184, 10.0071)
  point P34 (-22.348, 8.9829)
  point P35 (-23.3415, 7.9403)
  point P36 (-20.9486, 7.9403)
  point P37 (-20.9547, 11.0744)
  point P38 (-18.5065, 7.9403)
  point P39 (-18.5126, 11.0744)
sketch "Sketch8" plane through (0, 0, 0) normal (0, 0, 1) x (1, 0, 0)
  line L0 (-16.4625, 13.2195) -> (-343.5634, 13.2195)
  line L1 (-343.5634, 13.2195) -> (-343.5634, 5.8328)
  line L2 (-343.5634, 5.8328) -> (-16.4625, 5.8328)
  line L3 (-16.4625, 5.8328) -> (-16.4625, 13.2195)
  point P0 (0, 0)
extrude "Extrusion9" add sketch "Sketch8" against normal up to surface (0.1 mm away)
sketch "Sketch9" plane through (0, 0, -3) normal (0, 0, -1) x (-1, 0, 0)
  circle A0 centre (63, 9.525) radius 1.5 projected
  circle A1 centre (63, 9.525) radius 2.55
  circle A2 centre (298.95, 9.525) radius 2.5 projected
  circle A3 centre (298.95, 9.525) radius 2.55
  point P0 (0, 0)
  dimension "d42" = 5.1
  dimension "d43" = 5.1
extrude "Extrusion10" cut sketch "Sketch9" against normal up to surface (1 mm away) contours A1 | A2
properties part number "2021-01-007" material "Aluminum 6061"
